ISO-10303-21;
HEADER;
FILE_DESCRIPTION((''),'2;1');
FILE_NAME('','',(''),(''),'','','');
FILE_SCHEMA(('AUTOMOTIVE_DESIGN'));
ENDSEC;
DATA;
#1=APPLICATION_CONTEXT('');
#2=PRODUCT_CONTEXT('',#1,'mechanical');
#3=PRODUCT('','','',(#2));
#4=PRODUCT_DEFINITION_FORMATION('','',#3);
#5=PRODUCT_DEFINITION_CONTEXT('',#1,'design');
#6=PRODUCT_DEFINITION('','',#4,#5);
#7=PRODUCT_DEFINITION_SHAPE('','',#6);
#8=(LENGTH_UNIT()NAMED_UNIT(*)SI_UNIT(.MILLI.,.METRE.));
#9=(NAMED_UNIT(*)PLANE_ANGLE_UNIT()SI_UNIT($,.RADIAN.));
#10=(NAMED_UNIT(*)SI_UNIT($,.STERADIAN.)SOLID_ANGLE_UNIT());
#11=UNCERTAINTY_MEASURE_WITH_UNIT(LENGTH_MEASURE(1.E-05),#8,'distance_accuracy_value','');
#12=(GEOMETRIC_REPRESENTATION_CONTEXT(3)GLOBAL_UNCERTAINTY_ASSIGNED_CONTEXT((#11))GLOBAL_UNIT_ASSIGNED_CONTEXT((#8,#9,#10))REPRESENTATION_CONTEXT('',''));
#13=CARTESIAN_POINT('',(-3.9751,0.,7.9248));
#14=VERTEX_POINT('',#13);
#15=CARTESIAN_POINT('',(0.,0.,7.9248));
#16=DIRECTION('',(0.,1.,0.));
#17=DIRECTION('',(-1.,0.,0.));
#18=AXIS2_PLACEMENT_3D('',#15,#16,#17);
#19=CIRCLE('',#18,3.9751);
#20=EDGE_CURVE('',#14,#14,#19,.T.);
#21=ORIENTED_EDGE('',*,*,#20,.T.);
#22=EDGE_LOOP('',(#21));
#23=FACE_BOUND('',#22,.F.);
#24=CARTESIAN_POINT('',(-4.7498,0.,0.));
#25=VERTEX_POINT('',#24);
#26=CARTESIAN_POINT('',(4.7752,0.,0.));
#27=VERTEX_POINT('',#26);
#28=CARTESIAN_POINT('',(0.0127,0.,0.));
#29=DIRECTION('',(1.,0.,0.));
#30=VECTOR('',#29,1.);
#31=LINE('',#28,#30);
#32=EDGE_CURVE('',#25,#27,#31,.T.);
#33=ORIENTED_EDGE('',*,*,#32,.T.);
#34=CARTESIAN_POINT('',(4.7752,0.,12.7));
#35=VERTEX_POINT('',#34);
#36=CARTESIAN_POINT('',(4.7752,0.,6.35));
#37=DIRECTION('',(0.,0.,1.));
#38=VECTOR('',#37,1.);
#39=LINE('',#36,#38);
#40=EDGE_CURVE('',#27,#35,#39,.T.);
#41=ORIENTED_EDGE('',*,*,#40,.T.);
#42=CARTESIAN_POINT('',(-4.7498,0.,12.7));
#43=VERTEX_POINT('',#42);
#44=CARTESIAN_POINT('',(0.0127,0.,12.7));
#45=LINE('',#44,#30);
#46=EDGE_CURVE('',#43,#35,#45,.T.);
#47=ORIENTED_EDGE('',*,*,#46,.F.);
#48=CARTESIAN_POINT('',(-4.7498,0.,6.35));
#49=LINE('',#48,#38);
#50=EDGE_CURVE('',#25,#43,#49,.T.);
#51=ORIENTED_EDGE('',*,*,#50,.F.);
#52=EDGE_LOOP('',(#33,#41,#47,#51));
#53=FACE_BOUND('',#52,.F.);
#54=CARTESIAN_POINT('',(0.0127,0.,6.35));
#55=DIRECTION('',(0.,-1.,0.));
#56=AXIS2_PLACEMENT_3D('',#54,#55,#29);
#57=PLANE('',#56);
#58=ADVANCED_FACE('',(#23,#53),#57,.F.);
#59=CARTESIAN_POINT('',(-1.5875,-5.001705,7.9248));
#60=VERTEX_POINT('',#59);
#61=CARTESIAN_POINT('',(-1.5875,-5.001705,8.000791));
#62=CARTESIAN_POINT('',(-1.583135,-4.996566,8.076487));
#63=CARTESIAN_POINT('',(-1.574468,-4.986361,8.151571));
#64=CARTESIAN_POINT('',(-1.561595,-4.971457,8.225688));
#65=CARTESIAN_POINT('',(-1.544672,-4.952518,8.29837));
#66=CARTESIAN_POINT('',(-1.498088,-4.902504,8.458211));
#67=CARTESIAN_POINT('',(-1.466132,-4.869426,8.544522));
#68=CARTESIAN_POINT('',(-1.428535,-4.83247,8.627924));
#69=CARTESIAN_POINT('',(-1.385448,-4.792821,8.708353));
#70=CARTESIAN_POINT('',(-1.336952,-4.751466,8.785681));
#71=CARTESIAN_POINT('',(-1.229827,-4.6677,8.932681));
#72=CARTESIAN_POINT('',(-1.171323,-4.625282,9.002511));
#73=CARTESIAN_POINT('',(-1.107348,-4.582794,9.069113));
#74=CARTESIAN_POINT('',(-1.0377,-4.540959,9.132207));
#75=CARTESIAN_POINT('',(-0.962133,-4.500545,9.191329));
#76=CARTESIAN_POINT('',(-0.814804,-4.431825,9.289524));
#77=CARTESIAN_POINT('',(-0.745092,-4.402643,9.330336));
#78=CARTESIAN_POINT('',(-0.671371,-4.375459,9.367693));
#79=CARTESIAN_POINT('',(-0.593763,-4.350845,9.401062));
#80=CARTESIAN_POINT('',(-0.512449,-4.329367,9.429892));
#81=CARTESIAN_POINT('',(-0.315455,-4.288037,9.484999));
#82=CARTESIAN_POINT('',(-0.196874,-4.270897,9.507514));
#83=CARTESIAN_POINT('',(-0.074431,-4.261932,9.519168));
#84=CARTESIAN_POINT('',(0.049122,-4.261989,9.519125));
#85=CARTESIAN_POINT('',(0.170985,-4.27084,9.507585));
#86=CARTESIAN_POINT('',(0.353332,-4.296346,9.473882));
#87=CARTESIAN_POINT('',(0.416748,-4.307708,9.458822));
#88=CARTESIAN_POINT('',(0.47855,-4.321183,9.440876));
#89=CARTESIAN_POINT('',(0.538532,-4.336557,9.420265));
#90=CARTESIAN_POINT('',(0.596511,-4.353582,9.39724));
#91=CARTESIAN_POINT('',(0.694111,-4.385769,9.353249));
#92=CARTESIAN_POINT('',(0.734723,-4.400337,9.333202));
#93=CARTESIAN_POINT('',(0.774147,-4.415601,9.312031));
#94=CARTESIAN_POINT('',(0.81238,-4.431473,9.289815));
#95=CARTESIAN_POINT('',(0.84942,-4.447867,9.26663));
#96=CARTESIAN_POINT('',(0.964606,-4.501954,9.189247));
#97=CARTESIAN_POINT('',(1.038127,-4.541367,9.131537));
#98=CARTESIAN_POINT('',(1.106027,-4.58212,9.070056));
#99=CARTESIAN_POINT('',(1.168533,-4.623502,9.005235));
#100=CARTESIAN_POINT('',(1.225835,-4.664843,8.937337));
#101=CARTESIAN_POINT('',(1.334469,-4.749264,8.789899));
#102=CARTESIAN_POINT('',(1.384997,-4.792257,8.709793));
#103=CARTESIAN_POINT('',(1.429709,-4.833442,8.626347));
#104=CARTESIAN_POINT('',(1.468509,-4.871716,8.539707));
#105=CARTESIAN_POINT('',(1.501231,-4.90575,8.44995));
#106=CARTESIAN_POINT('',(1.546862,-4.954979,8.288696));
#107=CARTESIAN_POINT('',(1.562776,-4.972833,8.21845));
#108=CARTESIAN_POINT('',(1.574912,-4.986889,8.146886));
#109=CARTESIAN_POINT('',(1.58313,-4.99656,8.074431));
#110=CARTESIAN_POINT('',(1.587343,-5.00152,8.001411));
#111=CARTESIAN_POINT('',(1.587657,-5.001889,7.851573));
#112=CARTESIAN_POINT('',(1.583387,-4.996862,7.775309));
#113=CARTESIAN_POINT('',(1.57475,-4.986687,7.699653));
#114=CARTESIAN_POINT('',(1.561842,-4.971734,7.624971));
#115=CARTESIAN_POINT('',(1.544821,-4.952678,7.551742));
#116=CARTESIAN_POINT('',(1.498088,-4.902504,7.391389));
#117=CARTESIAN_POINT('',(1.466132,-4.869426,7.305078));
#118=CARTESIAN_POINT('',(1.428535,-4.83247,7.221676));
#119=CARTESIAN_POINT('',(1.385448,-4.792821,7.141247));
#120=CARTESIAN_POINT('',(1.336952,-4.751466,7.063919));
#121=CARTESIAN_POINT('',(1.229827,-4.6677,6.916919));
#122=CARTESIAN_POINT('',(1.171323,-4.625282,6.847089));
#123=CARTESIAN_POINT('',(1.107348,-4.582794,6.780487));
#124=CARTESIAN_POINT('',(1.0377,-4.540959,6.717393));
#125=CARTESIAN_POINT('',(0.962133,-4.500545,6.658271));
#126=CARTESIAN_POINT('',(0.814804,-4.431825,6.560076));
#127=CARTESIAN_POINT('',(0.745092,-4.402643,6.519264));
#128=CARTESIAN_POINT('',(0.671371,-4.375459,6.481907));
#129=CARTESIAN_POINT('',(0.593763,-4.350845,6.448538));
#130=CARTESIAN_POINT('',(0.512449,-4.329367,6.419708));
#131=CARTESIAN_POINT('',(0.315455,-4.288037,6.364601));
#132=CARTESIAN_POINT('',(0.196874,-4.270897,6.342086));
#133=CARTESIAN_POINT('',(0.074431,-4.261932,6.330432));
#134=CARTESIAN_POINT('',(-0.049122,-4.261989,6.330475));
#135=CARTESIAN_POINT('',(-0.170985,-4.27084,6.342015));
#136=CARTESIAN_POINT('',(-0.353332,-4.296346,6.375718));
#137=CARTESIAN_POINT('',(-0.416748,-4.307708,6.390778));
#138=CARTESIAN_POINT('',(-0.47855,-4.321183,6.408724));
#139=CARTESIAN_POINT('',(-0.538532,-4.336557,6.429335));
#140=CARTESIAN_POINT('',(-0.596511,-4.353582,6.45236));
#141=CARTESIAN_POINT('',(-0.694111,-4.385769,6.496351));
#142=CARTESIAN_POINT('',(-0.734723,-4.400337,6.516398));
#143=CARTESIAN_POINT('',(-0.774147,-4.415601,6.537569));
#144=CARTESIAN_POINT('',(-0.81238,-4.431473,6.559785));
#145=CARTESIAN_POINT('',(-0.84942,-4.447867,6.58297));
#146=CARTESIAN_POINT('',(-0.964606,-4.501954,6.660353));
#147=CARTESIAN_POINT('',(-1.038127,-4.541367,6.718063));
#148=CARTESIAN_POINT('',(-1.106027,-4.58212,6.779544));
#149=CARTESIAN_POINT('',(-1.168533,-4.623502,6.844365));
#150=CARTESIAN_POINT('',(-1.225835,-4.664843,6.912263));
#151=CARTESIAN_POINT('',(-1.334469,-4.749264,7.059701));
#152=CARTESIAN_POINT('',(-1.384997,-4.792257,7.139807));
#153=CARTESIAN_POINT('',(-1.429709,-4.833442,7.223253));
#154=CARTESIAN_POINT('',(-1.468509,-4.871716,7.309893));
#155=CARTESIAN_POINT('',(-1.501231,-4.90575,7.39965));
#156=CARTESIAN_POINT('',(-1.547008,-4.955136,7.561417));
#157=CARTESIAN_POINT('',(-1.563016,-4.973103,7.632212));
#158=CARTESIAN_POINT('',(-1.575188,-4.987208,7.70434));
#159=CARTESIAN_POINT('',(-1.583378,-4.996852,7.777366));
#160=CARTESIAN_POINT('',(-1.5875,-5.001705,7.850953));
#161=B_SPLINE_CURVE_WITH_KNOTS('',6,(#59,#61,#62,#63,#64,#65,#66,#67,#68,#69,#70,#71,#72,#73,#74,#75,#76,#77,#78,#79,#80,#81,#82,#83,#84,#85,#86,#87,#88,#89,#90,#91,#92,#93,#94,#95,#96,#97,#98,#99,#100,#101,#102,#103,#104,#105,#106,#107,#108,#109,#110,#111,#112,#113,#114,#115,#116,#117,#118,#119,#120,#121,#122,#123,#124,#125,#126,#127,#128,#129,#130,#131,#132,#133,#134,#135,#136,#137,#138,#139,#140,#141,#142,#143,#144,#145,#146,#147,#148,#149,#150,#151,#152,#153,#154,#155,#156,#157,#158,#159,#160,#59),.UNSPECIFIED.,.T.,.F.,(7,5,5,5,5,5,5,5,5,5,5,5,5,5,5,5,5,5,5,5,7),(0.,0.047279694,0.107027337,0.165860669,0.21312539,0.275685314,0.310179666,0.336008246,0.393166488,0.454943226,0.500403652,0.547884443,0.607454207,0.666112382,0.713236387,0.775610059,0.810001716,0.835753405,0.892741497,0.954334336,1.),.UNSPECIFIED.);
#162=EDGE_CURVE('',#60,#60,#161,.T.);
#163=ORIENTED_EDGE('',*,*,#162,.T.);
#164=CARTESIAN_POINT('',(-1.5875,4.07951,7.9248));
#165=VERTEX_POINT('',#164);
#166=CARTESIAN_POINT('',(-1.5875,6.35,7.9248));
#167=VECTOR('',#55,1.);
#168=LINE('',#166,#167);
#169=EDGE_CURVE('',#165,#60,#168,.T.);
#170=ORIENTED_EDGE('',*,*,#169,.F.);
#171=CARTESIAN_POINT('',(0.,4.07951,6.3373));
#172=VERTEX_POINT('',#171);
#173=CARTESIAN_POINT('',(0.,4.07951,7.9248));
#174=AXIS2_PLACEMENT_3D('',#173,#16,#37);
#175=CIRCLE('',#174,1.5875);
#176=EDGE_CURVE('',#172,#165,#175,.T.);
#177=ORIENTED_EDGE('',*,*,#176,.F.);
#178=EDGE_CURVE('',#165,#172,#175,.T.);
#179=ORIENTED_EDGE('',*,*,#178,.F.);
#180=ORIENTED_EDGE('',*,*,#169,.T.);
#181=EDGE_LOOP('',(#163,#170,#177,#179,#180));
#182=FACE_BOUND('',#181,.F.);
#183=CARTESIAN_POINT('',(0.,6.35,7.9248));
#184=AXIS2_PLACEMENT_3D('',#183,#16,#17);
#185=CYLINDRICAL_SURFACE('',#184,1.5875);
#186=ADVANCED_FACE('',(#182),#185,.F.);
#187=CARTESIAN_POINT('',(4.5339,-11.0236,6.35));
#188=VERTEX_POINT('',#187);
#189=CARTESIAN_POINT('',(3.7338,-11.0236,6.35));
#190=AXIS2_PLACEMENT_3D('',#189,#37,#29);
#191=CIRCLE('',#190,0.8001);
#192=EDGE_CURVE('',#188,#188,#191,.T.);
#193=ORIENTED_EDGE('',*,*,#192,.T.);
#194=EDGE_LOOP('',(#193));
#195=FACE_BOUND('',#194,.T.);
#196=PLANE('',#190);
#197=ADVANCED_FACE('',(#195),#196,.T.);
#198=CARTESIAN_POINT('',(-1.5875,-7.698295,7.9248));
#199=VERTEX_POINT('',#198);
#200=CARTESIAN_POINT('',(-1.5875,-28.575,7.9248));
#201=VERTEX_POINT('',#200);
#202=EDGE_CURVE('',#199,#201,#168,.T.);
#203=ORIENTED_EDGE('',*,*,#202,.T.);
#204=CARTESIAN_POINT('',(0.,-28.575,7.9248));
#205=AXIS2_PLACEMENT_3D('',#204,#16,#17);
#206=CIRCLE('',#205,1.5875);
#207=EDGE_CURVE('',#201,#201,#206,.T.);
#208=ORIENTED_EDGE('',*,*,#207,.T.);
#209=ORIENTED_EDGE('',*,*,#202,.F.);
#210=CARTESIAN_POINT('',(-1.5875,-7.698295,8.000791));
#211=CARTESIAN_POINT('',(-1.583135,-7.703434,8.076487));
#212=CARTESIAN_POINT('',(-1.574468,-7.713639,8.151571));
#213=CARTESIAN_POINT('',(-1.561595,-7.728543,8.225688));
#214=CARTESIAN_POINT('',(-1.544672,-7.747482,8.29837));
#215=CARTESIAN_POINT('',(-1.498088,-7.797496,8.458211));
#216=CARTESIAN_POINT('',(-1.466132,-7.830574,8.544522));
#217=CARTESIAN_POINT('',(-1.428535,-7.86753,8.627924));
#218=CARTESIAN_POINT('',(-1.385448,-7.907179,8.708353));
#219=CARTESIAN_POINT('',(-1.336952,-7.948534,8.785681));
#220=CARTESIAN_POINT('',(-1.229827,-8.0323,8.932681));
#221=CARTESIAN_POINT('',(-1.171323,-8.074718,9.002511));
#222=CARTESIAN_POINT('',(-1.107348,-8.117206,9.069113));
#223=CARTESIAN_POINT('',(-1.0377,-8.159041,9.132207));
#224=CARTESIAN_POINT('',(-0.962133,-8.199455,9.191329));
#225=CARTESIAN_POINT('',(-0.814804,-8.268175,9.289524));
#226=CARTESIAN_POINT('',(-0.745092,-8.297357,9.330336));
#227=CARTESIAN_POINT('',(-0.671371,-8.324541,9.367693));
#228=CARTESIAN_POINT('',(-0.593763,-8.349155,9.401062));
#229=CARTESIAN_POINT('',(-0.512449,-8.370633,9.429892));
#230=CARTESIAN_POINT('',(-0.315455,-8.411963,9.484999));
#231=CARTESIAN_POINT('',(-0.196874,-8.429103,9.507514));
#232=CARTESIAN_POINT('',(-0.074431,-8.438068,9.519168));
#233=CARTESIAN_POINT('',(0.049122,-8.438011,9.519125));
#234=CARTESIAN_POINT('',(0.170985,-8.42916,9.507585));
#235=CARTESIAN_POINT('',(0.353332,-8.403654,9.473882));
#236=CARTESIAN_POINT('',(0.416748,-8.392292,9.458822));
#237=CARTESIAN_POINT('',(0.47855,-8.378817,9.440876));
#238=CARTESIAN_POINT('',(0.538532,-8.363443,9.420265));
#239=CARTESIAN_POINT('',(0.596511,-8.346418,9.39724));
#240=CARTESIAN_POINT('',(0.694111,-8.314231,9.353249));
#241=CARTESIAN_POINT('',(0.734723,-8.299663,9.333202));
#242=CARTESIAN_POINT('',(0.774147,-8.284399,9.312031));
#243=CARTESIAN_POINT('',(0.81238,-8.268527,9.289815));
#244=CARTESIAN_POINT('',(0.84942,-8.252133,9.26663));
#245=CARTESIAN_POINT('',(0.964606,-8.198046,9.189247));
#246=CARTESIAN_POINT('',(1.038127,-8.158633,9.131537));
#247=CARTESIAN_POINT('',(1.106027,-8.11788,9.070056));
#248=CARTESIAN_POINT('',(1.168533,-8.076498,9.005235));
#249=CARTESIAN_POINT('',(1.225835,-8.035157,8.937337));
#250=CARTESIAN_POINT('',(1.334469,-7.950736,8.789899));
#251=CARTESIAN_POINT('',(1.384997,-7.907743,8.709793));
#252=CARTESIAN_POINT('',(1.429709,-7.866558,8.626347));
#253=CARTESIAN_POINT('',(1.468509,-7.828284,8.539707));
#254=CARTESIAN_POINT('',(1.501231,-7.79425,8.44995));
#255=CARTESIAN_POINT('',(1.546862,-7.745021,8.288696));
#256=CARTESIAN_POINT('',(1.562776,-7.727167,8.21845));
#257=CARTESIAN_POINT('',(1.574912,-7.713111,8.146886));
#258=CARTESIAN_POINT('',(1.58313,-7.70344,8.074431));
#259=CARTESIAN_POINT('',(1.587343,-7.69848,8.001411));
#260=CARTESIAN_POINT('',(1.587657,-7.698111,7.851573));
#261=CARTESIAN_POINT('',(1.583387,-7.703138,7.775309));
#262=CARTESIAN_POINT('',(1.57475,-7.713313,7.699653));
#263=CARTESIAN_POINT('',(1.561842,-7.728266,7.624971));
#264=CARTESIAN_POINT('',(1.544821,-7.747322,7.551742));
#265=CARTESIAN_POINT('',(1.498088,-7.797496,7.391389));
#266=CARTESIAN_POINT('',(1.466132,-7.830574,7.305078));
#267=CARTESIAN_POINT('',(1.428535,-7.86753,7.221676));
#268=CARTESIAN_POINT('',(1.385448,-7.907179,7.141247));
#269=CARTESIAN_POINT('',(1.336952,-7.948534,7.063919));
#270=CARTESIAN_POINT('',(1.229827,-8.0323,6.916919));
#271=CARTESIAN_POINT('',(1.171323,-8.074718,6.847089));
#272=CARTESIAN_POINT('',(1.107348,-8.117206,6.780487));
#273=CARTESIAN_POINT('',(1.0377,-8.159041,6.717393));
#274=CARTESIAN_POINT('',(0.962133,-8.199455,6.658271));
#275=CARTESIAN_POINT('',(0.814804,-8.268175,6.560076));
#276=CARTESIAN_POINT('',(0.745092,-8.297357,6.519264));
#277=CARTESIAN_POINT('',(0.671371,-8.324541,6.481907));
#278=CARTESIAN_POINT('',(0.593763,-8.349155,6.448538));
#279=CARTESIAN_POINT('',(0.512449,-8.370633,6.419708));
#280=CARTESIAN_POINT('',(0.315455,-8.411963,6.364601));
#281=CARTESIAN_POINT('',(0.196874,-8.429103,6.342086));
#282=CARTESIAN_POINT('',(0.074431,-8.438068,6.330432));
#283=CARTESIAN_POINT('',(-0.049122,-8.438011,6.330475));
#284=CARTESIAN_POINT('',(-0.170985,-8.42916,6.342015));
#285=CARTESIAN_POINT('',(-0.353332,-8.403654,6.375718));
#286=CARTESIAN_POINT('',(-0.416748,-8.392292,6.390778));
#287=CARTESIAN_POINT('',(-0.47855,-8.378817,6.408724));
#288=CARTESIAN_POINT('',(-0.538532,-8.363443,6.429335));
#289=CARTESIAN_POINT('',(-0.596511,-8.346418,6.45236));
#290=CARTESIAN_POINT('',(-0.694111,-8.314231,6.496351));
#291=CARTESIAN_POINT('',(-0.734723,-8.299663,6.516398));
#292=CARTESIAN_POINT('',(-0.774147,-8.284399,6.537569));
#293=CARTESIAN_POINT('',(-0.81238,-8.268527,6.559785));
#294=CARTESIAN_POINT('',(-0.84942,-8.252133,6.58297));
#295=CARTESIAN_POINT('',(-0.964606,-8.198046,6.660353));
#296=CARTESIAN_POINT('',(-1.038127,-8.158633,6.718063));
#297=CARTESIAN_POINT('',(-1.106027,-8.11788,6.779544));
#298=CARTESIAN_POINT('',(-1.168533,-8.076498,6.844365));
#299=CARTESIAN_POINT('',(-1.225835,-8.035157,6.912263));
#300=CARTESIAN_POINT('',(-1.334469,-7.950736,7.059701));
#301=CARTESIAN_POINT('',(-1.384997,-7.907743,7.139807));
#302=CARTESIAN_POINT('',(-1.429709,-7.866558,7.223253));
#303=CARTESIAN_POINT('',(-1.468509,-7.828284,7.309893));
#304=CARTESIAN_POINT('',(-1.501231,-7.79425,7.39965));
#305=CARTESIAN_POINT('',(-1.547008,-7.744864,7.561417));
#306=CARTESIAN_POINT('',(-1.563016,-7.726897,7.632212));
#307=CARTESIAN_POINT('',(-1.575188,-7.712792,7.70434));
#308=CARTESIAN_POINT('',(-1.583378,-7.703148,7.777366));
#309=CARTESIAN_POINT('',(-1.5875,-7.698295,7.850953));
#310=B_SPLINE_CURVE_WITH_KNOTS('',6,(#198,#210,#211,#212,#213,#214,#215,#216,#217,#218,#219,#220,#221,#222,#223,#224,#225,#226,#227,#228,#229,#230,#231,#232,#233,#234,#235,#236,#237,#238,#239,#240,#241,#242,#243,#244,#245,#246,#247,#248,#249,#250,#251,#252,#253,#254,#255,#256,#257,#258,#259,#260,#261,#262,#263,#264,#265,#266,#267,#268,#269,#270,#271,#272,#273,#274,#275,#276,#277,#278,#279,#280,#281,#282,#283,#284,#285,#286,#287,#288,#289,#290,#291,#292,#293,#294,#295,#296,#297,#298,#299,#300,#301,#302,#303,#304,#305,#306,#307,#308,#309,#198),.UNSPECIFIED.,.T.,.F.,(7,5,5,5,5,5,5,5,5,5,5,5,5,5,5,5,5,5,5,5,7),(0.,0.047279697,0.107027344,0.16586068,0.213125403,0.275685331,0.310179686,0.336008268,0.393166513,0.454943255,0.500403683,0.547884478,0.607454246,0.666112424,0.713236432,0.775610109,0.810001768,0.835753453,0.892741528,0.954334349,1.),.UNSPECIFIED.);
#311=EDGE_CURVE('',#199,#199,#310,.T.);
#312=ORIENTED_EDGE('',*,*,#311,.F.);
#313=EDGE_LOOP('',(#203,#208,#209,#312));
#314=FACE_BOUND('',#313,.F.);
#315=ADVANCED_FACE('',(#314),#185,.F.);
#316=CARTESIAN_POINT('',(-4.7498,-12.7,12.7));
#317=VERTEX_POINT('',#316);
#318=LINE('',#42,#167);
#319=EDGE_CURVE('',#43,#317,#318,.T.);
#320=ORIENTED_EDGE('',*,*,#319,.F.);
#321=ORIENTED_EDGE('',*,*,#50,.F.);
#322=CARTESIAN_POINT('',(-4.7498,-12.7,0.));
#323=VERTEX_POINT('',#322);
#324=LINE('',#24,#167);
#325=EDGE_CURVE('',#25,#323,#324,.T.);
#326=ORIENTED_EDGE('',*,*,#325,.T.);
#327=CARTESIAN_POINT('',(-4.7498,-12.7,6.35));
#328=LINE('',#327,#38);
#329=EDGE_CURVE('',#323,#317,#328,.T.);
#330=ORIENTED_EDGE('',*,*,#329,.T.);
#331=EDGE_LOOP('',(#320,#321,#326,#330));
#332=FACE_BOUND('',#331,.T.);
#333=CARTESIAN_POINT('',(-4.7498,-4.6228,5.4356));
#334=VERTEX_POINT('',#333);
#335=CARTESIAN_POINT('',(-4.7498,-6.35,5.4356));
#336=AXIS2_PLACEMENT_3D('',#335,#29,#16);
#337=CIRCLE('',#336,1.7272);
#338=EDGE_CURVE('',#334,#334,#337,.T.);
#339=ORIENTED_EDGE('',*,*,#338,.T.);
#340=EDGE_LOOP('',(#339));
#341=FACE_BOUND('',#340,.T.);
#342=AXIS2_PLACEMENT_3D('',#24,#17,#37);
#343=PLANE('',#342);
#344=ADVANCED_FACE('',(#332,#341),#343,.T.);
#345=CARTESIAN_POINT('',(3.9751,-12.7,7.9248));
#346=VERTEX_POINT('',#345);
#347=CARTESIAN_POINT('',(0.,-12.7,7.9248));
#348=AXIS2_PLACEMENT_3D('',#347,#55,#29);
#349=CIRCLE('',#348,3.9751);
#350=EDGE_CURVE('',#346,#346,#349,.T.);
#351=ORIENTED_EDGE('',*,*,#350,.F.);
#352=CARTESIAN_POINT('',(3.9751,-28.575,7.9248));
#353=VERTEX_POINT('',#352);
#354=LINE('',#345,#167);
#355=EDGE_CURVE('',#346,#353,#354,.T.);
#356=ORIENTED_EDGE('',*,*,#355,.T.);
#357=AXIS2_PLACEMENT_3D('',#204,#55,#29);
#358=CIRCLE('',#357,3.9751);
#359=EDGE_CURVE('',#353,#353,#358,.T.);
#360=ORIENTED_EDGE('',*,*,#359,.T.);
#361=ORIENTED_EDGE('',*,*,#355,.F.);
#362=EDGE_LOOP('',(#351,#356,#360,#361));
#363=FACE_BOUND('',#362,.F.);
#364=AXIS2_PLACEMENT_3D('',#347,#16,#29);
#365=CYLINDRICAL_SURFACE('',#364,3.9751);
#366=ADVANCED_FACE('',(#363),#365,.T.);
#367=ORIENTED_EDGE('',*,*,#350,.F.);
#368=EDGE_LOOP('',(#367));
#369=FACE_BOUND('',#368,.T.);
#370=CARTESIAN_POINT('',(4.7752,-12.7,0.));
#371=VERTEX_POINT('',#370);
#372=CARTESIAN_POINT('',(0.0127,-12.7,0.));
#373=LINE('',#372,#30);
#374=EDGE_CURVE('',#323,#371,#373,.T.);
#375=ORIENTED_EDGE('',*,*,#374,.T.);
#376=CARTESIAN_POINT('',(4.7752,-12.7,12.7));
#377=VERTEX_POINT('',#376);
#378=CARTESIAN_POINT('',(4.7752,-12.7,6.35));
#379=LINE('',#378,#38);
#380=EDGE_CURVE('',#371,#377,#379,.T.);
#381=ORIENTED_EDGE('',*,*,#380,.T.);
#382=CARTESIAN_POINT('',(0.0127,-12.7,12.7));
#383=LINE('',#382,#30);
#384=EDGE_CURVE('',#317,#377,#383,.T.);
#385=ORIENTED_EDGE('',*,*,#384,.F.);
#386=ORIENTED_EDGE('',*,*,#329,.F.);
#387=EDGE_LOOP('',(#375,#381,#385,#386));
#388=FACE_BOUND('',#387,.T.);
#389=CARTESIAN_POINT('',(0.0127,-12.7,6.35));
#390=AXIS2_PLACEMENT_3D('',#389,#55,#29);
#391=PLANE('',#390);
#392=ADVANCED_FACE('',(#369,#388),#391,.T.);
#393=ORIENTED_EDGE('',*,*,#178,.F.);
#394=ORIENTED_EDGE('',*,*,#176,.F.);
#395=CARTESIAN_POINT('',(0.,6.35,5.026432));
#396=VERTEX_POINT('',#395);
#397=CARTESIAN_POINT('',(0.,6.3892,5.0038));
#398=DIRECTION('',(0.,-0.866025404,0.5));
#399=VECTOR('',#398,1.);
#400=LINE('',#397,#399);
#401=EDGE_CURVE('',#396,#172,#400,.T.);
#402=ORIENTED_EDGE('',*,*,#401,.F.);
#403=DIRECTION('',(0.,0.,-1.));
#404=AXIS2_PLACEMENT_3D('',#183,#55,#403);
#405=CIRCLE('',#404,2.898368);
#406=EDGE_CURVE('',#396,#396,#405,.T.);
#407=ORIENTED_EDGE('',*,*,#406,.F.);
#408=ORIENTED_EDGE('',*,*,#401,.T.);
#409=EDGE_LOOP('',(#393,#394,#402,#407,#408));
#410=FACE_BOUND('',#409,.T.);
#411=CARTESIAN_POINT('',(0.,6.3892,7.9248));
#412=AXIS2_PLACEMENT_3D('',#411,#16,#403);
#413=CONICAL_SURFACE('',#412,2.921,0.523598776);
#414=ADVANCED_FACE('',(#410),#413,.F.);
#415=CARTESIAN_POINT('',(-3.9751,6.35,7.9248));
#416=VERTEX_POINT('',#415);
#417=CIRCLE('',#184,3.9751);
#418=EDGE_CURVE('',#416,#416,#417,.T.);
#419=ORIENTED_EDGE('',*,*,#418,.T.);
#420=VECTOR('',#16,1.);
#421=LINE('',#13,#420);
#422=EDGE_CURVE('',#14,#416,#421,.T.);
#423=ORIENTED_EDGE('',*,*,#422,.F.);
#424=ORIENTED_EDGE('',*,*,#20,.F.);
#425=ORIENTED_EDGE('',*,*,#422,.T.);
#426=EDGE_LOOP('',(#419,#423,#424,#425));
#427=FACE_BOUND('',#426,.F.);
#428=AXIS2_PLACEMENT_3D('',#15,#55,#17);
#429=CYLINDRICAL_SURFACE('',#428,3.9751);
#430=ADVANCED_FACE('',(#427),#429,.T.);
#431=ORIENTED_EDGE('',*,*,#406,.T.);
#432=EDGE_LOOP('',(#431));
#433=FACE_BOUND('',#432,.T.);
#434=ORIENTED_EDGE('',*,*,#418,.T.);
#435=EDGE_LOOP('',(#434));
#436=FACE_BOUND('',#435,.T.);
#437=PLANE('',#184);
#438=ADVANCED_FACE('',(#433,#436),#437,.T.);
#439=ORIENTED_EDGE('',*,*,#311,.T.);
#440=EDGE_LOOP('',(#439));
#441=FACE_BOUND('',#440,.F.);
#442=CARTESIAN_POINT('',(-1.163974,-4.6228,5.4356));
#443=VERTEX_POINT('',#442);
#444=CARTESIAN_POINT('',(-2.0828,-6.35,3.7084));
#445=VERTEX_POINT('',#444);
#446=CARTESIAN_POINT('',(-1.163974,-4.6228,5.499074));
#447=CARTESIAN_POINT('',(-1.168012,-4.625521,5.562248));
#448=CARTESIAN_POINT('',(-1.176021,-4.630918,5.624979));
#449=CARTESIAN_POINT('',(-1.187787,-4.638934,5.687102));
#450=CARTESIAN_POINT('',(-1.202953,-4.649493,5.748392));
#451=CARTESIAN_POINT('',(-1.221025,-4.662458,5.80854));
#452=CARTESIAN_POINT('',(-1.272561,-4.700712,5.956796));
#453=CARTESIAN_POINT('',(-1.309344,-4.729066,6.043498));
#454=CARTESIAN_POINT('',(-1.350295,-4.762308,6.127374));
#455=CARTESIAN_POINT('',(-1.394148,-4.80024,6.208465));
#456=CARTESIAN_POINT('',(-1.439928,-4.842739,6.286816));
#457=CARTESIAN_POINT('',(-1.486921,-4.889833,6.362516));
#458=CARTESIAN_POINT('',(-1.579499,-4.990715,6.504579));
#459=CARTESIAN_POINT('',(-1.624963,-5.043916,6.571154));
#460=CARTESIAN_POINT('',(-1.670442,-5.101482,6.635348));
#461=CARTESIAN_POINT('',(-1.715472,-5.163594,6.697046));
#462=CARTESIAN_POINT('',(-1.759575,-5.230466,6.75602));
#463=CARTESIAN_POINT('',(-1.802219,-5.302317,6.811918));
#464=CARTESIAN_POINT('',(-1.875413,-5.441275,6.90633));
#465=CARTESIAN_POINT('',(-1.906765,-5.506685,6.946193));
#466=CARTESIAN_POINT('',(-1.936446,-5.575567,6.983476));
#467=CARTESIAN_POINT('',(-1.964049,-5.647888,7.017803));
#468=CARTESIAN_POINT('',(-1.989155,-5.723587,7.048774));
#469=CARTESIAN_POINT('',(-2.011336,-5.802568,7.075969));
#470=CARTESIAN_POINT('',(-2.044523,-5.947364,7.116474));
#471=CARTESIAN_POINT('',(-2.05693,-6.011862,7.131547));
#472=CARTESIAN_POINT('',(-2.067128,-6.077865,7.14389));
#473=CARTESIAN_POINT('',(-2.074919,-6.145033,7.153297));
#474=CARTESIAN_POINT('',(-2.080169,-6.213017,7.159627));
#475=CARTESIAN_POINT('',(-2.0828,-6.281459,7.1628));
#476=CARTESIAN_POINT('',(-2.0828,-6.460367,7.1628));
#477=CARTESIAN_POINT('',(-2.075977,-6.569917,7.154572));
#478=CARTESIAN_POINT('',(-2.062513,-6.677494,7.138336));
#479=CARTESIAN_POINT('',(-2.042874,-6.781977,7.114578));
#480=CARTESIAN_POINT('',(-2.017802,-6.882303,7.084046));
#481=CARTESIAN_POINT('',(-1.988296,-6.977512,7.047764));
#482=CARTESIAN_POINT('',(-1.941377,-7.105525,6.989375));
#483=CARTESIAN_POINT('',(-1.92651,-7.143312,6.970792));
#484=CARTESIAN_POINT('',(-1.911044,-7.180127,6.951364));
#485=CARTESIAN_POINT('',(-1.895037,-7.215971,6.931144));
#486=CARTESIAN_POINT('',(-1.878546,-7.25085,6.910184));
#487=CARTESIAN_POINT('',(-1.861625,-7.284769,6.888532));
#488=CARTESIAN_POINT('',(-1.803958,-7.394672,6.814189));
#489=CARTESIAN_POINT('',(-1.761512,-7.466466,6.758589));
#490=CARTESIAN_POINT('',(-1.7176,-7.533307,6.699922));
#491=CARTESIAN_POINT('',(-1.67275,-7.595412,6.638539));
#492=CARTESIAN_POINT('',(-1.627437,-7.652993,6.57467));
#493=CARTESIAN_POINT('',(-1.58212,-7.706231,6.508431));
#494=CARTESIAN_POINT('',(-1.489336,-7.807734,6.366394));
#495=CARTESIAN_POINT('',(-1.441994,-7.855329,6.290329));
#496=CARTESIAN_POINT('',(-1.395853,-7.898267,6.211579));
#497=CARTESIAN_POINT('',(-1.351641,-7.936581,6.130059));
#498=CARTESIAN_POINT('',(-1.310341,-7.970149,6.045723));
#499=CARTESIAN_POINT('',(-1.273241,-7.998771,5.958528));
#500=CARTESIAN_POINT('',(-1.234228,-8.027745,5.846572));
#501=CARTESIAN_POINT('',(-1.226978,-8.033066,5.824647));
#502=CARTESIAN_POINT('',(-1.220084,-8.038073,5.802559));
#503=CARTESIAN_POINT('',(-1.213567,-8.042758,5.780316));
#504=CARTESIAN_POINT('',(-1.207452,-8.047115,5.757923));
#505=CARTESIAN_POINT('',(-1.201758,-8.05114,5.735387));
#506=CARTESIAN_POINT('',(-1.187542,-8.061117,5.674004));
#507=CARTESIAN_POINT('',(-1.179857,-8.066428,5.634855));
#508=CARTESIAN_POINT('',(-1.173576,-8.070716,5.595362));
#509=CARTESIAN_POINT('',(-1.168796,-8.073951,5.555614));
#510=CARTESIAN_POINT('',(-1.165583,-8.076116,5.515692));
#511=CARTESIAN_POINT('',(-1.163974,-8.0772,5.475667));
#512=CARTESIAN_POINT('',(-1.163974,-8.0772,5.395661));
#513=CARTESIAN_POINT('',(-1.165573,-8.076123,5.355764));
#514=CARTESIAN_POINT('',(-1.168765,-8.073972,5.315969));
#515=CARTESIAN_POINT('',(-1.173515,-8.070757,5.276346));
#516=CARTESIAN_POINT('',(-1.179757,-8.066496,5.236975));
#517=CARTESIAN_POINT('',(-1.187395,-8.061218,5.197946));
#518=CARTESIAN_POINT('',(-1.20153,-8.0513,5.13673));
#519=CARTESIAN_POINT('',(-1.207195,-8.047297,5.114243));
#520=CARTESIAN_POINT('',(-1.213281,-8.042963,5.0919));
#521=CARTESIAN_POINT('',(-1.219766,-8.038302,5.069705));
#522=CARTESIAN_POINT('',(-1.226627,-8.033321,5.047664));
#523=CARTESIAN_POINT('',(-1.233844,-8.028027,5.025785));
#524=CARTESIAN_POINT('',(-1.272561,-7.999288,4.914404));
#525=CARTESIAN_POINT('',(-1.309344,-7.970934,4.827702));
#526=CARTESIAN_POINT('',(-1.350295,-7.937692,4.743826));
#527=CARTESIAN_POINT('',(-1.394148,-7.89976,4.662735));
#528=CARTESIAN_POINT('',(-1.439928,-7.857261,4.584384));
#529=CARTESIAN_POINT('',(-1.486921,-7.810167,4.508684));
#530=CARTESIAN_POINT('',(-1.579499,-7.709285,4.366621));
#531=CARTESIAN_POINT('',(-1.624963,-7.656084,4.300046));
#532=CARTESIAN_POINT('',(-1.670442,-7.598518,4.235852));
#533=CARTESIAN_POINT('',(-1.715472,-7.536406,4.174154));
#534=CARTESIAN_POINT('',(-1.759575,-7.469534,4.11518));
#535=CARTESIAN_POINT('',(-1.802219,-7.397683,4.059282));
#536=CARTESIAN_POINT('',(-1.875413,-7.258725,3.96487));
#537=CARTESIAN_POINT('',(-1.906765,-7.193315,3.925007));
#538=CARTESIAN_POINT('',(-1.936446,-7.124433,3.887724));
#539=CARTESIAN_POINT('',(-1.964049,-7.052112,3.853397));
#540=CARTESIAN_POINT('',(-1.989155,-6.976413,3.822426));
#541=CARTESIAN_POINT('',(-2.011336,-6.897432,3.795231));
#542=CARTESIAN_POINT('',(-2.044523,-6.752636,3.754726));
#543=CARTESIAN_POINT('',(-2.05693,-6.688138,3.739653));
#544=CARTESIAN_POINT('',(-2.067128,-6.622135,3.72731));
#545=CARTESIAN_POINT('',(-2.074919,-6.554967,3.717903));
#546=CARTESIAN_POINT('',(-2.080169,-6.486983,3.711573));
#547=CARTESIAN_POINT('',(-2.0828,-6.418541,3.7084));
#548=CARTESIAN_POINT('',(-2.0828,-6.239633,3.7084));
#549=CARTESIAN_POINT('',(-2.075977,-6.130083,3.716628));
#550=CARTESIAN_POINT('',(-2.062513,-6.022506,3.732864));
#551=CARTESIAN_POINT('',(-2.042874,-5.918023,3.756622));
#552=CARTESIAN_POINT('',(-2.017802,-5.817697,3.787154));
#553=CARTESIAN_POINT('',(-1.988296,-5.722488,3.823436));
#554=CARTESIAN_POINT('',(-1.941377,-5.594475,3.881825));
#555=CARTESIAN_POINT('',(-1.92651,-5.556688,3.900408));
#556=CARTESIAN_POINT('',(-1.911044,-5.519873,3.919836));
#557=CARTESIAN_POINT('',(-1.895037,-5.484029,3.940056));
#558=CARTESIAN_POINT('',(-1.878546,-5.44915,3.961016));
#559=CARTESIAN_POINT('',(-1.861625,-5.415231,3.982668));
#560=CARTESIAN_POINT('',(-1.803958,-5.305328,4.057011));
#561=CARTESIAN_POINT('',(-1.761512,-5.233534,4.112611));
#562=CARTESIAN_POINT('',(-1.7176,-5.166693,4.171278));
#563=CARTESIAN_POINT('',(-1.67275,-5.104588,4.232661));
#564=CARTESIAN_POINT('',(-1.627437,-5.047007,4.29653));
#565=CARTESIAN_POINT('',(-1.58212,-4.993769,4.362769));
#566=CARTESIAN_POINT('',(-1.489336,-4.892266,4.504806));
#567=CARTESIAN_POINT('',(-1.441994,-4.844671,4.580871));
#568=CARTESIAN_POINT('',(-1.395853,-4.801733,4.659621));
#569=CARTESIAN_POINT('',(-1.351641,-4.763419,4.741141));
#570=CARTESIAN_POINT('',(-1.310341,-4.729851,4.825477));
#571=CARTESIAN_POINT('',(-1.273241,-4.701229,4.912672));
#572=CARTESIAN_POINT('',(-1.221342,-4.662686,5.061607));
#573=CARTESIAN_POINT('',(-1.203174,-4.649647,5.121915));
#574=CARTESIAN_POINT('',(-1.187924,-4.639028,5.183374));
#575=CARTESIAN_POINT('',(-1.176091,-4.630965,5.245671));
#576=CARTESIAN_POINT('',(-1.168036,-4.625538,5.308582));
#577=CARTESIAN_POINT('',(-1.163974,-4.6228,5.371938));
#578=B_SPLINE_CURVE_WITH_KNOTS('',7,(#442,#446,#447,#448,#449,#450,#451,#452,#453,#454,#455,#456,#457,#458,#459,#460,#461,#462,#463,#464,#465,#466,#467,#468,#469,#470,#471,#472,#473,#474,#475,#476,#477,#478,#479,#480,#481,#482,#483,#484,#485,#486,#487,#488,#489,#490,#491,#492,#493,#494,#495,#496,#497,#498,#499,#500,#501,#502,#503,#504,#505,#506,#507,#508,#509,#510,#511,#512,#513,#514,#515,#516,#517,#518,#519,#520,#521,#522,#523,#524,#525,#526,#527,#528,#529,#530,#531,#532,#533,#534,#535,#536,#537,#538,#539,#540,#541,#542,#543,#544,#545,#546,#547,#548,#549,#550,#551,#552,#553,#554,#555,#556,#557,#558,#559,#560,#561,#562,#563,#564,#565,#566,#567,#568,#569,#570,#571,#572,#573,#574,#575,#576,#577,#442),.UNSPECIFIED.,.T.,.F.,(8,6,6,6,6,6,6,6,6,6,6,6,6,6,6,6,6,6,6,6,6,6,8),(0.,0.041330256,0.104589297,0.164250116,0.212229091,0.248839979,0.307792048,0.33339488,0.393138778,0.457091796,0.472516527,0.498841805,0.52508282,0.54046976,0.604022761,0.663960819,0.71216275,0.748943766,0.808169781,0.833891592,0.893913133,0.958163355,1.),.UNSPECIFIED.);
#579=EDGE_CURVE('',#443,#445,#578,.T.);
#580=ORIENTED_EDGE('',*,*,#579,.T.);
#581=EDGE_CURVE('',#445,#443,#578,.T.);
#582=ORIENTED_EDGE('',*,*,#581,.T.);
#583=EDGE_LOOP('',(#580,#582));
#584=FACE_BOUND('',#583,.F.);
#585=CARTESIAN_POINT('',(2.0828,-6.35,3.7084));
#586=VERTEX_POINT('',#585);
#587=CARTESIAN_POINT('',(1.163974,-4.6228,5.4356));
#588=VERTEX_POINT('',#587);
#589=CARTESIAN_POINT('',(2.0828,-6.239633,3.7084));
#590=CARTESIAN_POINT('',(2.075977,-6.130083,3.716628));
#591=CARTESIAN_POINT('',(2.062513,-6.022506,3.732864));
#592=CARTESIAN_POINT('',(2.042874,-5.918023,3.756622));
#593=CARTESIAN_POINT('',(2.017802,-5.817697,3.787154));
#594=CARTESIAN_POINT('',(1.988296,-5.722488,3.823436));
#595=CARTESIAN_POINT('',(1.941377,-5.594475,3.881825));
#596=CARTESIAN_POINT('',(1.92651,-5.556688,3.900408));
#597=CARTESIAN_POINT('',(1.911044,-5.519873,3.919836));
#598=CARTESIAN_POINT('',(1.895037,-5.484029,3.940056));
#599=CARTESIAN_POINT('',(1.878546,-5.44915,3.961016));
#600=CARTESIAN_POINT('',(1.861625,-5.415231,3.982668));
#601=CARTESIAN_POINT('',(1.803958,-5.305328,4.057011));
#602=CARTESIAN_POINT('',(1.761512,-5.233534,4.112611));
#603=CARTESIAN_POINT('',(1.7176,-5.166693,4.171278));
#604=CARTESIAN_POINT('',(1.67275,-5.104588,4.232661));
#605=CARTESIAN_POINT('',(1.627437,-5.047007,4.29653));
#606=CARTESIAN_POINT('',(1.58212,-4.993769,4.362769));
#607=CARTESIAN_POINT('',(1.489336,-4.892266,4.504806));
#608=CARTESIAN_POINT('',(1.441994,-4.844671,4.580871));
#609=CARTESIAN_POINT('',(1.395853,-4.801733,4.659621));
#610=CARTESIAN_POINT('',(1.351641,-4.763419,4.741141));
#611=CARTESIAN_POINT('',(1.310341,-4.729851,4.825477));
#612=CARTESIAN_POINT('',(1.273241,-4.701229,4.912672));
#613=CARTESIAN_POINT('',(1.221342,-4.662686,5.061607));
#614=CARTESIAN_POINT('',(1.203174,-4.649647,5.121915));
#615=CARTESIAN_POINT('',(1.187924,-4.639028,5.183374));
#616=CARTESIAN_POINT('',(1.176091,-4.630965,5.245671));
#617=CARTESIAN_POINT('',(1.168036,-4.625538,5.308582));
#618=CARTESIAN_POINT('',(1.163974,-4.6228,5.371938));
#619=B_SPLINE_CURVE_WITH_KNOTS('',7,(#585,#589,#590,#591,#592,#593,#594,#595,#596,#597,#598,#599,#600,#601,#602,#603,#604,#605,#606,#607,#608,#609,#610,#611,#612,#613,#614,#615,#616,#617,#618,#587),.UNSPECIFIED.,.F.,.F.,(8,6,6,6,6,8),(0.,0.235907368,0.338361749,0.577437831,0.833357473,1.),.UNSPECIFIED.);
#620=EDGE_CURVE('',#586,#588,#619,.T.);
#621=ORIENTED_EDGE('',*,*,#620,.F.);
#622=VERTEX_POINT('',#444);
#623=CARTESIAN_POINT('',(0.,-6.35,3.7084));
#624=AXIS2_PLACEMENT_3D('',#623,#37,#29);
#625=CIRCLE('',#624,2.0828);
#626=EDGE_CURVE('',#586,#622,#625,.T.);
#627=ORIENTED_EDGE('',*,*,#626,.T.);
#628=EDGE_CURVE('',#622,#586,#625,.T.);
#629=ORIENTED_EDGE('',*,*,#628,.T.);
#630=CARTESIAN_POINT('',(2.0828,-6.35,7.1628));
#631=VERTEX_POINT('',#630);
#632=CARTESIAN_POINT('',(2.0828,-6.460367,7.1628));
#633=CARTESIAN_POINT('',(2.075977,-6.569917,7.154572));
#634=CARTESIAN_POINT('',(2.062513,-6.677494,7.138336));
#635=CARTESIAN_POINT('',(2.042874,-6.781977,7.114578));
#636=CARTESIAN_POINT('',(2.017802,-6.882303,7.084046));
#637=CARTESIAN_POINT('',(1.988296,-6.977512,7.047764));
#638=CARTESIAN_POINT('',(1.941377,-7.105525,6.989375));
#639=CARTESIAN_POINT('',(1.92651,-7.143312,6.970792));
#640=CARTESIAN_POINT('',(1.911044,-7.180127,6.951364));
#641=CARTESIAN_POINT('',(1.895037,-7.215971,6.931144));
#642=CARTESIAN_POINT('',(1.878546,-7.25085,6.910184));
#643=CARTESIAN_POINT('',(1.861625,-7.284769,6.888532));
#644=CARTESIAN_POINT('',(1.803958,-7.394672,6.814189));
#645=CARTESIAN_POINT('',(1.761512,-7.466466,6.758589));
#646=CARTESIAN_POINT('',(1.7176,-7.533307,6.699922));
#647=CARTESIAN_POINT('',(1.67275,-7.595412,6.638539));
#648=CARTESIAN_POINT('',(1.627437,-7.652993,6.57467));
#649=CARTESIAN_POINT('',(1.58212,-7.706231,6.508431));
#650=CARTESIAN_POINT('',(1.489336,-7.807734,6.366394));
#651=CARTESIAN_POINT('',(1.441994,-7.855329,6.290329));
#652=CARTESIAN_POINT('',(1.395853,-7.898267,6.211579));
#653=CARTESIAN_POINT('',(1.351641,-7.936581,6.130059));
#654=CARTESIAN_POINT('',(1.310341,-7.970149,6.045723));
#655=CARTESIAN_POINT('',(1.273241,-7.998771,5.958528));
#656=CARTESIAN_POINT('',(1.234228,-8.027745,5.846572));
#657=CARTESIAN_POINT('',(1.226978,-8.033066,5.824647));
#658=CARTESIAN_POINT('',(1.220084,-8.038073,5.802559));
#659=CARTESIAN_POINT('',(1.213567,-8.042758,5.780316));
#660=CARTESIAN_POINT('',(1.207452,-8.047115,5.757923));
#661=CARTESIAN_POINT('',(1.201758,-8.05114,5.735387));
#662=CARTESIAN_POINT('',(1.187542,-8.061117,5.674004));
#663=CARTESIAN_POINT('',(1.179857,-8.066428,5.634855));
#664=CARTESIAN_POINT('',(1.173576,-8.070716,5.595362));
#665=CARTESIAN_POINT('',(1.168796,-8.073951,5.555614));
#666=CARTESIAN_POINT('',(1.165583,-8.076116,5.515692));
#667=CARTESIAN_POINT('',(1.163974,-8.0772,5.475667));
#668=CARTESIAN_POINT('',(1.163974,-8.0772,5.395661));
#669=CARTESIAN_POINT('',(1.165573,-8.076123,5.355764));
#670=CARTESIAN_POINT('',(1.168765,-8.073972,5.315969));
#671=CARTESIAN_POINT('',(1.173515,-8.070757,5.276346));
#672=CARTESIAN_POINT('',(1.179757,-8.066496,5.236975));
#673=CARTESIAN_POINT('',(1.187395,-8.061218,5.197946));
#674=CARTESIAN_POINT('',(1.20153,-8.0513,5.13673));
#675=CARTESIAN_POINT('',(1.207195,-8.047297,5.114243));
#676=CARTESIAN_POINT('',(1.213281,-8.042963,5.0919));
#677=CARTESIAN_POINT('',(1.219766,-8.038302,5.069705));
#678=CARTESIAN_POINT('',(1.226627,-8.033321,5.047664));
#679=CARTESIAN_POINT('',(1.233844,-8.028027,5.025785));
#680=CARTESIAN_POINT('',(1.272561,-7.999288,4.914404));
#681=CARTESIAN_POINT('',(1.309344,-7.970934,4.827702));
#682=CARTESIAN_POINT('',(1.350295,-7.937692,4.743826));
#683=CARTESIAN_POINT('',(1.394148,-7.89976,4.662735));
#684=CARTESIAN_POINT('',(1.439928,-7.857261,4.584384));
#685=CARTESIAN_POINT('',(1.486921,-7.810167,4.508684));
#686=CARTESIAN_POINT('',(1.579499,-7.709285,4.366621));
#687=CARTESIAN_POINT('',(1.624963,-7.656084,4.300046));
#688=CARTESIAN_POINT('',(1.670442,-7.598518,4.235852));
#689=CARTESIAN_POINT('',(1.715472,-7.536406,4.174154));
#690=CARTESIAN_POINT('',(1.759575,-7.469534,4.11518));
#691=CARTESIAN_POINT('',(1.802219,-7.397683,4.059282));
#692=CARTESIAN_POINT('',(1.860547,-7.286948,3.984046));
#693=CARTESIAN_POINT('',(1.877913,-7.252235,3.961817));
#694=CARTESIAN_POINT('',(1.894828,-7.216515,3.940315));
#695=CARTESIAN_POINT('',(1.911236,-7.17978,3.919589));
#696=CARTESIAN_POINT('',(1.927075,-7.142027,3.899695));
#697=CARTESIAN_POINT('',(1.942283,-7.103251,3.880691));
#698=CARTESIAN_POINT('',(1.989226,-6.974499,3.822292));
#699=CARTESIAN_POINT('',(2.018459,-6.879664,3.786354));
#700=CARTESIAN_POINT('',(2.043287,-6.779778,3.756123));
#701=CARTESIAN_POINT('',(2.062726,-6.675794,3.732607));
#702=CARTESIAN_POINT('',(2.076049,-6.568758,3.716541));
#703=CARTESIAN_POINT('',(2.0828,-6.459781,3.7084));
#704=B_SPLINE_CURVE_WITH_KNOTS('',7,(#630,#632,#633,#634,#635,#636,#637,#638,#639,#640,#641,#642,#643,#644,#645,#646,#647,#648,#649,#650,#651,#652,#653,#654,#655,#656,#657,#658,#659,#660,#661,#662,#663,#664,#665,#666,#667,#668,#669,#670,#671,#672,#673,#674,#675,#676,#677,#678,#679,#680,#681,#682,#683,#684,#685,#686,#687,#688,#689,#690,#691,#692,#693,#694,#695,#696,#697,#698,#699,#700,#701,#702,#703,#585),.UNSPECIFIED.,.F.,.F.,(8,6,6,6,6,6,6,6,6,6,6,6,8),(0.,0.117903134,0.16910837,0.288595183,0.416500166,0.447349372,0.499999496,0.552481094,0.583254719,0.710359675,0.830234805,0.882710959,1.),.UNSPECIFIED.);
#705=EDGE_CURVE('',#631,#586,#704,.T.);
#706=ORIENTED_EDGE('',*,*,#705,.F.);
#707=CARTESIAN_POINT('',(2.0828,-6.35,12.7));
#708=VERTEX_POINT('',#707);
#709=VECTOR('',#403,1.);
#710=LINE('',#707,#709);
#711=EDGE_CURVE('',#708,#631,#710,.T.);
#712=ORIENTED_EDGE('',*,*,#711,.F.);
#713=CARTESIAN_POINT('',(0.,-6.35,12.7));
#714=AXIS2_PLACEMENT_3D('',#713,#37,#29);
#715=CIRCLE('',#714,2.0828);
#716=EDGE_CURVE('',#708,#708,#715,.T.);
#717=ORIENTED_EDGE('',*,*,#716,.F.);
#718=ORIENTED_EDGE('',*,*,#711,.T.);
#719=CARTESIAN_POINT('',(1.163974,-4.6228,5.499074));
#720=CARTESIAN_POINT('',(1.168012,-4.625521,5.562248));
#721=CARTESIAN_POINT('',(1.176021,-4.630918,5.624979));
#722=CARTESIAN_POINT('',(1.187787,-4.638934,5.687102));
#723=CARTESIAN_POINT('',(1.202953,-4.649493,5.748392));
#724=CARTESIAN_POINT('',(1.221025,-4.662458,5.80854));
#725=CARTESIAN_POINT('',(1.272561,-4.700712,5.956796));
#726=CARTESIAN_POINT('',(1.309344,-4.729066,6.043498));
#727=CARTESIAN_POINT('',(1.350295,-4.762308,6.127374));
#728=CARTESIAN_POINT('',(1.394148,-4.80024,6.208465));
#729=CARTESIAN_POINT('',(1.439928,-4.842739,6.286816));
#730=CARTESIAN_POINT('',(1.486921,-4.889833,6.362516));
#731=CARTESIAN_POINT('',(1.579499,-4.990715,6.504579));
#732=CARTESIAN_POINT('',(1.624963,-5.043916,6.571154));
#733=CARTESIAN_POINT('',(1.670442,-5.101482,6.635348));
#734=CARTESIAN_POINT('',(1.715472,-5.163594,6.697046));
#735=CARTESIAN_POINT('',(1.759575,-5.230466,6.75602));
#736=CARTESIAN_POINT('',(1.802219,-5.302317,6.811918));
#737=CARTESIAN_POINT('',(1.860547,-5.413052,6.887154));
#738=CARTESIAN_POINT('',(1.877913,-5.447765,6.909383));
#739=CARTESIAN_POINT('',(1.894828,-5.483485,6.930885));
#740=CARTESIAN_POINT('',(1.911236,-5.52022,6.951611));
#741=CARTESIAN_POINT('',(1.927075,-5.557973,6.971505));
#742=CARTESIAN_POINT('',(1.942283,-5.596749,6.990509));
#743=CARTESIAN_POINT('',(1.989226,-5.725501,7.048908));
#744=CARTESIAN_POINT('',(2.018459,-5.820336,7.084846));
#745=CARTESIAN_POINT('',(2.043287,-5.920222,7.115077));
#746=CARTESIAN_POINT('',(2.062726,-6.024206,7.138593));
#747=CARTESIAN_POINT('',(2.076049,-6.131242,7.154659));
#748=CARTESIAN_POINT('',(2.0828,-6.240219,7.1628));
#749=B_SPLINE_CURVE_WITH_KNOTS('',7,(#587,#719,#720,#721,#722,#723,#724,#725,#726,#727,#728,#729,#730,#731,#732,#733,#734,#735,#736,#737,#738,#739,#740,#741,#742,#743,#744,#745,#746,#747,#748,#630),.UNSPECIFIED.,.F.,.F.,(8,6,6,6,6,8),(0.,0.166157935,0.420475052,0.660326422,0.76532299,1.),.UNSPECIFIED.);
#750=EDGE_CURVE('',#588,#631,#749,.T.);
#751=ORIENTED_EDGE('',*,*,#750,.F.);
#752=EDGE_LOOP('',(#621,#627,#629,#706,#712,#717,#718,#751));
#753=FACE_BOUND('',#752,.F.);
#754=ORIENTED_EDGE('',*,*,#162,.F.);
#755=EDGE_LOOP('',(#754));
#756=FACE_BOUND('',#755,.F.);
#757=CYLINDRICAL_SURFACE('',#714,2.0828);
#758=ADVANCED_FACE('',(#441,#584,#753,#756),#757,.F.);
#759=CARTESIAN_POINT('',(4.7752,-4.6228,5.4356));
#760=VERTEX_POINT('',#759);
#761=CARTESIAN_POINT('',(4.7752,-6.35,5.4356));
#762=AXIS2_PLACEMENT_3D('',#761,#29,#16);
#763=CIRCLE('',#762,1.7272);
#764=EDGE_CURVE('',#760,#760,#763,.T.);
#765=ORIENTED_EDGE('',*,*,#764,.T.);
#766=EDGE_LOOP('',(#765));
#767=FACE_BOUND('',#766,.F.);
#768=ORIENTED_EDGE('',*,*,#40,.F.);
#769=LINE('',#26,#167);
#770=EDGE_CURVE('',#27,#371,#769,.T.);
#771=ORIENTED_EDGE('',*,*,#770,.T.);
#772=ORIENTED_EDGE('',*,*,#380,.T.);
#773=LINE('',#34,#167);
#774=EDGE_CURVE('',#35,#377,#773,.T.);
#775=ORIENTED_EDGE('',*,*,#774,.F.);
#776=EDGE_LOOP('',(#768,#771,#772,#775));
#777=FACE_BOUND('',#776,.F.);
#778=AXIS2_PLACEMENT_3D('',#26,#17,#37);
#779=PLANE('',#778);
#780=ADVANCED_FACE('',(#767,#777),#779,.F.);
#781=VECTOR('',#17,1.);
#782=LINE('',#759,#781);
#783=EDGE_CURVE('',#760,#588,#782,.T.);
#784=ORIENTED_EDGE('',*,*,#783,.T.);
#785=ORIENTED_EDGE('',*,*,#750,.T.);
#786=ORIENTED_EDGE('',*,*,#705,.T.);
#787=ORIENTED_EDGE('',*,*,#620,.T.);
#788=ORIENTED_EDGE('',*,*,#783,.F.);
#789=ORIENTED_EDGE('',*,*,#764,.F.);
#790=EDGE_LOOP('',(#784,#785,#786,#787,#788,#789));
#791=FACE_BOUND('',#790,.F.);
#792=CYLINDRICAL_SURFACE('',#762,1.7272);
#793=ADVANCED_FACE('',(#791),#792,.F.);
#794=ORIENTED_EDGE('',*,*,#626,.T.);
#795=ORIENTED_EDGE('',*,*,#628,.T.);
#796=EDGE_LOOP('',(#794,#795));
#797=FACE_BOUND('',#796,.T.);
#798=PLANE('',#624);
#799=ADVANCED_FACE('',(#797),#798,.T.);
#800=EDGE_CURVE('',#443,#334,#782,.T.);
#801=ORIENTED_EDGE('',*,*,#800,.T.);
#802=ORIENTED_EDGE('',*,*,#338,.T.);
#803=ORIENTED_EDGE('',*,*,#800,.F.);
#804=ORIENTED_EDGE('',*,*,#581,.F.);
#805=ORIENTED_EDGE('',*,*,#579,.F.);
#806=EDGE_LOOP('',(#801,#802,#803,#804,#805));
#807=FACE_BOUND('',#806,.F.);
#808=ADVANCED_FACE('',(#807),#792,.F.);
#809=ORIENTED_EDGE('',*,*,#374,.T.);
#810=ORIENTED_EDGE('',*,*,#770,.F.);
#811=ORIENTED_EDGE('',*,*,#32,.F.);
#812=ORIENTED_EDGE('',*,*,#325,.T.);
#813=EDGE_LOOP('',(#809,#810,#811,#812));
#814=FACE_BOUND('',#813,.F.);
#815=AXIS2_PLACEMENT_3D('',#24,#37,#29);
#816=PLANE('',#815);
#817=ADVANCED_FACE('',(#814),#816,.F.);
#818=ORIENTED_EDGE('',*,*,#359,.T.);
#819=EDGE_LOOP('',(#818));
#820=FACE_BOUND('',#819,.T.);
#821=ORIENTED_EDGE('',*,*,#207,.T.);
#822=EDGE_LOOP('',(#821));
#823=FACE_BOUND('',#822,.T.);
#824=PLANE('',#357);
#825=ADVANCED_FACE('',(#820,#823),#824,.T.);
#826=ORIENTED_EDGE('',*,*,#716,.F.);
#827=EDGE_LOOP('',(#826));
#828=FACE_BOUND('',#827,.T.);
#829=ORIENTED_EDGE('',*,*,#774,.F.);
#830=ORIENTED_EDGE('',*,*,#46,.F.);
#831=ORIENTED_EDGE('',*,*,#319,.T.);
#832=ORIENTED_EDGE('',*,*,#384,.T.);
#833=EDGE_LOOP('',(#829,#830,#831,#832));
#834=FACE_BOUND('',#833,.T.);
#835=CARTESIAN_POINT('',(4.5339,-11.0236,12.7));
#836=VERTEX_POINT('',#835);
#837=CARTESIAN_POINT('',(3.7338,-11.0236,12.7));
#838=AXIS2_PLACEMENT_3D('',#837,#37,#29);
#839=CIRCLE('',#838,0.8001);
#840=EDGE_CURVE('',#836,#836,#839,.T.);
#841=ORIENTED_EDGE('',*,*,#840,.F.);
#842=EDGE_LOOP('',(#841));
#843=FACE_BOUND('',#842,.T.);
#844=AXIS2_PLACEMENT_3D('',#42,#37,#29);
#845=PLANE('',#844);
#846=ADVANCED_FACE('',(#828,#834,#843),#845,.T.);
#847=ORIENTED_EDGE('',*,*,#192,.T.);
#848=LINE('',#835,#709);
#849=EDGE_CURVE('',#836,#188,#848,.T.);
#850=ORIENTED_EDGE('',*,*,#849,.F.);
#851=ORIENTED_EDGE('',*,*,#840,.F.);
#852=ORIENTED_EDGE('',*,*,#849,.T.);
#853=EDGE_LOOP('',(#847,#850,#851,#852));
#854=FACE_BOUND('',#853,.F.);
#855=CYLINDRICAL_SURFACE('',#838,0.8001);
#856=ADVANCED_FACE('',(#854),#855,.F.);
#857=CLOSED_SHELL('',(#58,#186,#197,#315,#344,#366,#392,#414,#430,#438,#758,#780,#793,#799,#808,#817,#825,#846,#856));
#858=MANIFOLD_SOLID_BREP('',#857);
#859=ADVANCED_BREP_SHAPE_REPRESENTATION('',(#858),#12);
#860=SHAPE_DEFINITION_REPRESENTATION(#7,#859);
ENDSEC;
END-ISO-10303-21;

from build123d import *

# Parameters (mm, degrees)
F0_W      = 9.525
F0_H      = 12.7
F1_DEPTH  = 12.7
F2_R      = 3.9751
F3_DEPTH  = 15.875
F4_R      = 3.9751
F5_DEPTH  = 6.35
F6_R      = 1.5875
F7_DEPTH  = 34.926
F8_R      = 1.7272
F9_DEPTH  = 9.526
F10_R     = 2.0828
F11_DEPTH = 8.9916
F12_R     = 0.8001
F13_DEPTH = 6.35


with BuildPart() as f1:
    # F0 (on Front) → F1 (new body)
    with BuildSketch(Plane.XZ):
        with Locations((0.0127, 6.35)):
            Rectangle(F0_W, F0_H)
    extrude(amount=F1_DEPTH)

    # F2 (on face) → F3 (join)
    with BuildSketch(Plane.XZ.offset(12.7)):
        with Locations((0, 7.9248)):
            Circle(F2_R)
    extrude(amount=F3_DEPTH)

    # F4 (on face) → F5 (join)
    with BuildSketch(Plane(origin=(0, 0, 0), x_dir=(-1, 0, 0), z_dir=(0, 1, 0))):
        with Locations((0, 7.9248)):
            Circle(F4_R)
    extrude(amount=F5_DEPTH)

    # F6 (on face) → F7 (cut, through all)
    with BuildSketch(Plane(origin=(0, 6.35, 0), x_dir=(-1, 0, 0), z_dir=(0, 1, 0))):
        with Locations((0, 7.9248)):
            Circle(F6_R)
    extrude(amount=-F7_DEPTH, mode=Mode.SUBTRACT)

    # F8 (on face) → F9 (cut, through all)
    with BuildSketch(Plane.YZ.offset(4.7752)):
        with Locations((-6.35, 5.4356)):
            Circle(F8_R)
    extrude(amount=-F9_DEPTH, mode=Mode.SUBTRACT)

    # F10 (on face) → F11 (cut)
    with BuildSketch(Plane.XY.offset(12.7)):
        with Locations((0, -6.35)):
            Circle(F10_R)
    extrude(amount=-F11_DEPTH, mode=Mode.SUBTRACT)

    # F12 (on face) → F13 (cut)
    with BuildSketch(Plane.XY.offset(12.7)):
        with Locations((3.7338, -11.0236)):
            Circle(F12_R)
    extrude(amount=-F13_DEPTH, mode=Mode.SUBTRACT)

    # F15: sweep along a path in F15_path
    with BuildLine(Plane(origin=(-3.9751, 6.35, 7.9248), x_dir=(0, 0, -1), z_dir=(0, 1, 0))) as f15_path:
        CenterArc((0, -3.9751), 3.9751, 0, 360)
    # F14 (on Right) → F15 (sweep, cut)
    with BuildSketch(Plane.YZ):
        Polygon((6.3891997561, 7.9248), (6.3891997561, 10.8458), (3.8409422638, 9.3745628509), (3.8409422638, 7.9248), align=None)
    sweep(path=f15_path.line, mode=Mode.SUBTRACT)


solid = f1.part
